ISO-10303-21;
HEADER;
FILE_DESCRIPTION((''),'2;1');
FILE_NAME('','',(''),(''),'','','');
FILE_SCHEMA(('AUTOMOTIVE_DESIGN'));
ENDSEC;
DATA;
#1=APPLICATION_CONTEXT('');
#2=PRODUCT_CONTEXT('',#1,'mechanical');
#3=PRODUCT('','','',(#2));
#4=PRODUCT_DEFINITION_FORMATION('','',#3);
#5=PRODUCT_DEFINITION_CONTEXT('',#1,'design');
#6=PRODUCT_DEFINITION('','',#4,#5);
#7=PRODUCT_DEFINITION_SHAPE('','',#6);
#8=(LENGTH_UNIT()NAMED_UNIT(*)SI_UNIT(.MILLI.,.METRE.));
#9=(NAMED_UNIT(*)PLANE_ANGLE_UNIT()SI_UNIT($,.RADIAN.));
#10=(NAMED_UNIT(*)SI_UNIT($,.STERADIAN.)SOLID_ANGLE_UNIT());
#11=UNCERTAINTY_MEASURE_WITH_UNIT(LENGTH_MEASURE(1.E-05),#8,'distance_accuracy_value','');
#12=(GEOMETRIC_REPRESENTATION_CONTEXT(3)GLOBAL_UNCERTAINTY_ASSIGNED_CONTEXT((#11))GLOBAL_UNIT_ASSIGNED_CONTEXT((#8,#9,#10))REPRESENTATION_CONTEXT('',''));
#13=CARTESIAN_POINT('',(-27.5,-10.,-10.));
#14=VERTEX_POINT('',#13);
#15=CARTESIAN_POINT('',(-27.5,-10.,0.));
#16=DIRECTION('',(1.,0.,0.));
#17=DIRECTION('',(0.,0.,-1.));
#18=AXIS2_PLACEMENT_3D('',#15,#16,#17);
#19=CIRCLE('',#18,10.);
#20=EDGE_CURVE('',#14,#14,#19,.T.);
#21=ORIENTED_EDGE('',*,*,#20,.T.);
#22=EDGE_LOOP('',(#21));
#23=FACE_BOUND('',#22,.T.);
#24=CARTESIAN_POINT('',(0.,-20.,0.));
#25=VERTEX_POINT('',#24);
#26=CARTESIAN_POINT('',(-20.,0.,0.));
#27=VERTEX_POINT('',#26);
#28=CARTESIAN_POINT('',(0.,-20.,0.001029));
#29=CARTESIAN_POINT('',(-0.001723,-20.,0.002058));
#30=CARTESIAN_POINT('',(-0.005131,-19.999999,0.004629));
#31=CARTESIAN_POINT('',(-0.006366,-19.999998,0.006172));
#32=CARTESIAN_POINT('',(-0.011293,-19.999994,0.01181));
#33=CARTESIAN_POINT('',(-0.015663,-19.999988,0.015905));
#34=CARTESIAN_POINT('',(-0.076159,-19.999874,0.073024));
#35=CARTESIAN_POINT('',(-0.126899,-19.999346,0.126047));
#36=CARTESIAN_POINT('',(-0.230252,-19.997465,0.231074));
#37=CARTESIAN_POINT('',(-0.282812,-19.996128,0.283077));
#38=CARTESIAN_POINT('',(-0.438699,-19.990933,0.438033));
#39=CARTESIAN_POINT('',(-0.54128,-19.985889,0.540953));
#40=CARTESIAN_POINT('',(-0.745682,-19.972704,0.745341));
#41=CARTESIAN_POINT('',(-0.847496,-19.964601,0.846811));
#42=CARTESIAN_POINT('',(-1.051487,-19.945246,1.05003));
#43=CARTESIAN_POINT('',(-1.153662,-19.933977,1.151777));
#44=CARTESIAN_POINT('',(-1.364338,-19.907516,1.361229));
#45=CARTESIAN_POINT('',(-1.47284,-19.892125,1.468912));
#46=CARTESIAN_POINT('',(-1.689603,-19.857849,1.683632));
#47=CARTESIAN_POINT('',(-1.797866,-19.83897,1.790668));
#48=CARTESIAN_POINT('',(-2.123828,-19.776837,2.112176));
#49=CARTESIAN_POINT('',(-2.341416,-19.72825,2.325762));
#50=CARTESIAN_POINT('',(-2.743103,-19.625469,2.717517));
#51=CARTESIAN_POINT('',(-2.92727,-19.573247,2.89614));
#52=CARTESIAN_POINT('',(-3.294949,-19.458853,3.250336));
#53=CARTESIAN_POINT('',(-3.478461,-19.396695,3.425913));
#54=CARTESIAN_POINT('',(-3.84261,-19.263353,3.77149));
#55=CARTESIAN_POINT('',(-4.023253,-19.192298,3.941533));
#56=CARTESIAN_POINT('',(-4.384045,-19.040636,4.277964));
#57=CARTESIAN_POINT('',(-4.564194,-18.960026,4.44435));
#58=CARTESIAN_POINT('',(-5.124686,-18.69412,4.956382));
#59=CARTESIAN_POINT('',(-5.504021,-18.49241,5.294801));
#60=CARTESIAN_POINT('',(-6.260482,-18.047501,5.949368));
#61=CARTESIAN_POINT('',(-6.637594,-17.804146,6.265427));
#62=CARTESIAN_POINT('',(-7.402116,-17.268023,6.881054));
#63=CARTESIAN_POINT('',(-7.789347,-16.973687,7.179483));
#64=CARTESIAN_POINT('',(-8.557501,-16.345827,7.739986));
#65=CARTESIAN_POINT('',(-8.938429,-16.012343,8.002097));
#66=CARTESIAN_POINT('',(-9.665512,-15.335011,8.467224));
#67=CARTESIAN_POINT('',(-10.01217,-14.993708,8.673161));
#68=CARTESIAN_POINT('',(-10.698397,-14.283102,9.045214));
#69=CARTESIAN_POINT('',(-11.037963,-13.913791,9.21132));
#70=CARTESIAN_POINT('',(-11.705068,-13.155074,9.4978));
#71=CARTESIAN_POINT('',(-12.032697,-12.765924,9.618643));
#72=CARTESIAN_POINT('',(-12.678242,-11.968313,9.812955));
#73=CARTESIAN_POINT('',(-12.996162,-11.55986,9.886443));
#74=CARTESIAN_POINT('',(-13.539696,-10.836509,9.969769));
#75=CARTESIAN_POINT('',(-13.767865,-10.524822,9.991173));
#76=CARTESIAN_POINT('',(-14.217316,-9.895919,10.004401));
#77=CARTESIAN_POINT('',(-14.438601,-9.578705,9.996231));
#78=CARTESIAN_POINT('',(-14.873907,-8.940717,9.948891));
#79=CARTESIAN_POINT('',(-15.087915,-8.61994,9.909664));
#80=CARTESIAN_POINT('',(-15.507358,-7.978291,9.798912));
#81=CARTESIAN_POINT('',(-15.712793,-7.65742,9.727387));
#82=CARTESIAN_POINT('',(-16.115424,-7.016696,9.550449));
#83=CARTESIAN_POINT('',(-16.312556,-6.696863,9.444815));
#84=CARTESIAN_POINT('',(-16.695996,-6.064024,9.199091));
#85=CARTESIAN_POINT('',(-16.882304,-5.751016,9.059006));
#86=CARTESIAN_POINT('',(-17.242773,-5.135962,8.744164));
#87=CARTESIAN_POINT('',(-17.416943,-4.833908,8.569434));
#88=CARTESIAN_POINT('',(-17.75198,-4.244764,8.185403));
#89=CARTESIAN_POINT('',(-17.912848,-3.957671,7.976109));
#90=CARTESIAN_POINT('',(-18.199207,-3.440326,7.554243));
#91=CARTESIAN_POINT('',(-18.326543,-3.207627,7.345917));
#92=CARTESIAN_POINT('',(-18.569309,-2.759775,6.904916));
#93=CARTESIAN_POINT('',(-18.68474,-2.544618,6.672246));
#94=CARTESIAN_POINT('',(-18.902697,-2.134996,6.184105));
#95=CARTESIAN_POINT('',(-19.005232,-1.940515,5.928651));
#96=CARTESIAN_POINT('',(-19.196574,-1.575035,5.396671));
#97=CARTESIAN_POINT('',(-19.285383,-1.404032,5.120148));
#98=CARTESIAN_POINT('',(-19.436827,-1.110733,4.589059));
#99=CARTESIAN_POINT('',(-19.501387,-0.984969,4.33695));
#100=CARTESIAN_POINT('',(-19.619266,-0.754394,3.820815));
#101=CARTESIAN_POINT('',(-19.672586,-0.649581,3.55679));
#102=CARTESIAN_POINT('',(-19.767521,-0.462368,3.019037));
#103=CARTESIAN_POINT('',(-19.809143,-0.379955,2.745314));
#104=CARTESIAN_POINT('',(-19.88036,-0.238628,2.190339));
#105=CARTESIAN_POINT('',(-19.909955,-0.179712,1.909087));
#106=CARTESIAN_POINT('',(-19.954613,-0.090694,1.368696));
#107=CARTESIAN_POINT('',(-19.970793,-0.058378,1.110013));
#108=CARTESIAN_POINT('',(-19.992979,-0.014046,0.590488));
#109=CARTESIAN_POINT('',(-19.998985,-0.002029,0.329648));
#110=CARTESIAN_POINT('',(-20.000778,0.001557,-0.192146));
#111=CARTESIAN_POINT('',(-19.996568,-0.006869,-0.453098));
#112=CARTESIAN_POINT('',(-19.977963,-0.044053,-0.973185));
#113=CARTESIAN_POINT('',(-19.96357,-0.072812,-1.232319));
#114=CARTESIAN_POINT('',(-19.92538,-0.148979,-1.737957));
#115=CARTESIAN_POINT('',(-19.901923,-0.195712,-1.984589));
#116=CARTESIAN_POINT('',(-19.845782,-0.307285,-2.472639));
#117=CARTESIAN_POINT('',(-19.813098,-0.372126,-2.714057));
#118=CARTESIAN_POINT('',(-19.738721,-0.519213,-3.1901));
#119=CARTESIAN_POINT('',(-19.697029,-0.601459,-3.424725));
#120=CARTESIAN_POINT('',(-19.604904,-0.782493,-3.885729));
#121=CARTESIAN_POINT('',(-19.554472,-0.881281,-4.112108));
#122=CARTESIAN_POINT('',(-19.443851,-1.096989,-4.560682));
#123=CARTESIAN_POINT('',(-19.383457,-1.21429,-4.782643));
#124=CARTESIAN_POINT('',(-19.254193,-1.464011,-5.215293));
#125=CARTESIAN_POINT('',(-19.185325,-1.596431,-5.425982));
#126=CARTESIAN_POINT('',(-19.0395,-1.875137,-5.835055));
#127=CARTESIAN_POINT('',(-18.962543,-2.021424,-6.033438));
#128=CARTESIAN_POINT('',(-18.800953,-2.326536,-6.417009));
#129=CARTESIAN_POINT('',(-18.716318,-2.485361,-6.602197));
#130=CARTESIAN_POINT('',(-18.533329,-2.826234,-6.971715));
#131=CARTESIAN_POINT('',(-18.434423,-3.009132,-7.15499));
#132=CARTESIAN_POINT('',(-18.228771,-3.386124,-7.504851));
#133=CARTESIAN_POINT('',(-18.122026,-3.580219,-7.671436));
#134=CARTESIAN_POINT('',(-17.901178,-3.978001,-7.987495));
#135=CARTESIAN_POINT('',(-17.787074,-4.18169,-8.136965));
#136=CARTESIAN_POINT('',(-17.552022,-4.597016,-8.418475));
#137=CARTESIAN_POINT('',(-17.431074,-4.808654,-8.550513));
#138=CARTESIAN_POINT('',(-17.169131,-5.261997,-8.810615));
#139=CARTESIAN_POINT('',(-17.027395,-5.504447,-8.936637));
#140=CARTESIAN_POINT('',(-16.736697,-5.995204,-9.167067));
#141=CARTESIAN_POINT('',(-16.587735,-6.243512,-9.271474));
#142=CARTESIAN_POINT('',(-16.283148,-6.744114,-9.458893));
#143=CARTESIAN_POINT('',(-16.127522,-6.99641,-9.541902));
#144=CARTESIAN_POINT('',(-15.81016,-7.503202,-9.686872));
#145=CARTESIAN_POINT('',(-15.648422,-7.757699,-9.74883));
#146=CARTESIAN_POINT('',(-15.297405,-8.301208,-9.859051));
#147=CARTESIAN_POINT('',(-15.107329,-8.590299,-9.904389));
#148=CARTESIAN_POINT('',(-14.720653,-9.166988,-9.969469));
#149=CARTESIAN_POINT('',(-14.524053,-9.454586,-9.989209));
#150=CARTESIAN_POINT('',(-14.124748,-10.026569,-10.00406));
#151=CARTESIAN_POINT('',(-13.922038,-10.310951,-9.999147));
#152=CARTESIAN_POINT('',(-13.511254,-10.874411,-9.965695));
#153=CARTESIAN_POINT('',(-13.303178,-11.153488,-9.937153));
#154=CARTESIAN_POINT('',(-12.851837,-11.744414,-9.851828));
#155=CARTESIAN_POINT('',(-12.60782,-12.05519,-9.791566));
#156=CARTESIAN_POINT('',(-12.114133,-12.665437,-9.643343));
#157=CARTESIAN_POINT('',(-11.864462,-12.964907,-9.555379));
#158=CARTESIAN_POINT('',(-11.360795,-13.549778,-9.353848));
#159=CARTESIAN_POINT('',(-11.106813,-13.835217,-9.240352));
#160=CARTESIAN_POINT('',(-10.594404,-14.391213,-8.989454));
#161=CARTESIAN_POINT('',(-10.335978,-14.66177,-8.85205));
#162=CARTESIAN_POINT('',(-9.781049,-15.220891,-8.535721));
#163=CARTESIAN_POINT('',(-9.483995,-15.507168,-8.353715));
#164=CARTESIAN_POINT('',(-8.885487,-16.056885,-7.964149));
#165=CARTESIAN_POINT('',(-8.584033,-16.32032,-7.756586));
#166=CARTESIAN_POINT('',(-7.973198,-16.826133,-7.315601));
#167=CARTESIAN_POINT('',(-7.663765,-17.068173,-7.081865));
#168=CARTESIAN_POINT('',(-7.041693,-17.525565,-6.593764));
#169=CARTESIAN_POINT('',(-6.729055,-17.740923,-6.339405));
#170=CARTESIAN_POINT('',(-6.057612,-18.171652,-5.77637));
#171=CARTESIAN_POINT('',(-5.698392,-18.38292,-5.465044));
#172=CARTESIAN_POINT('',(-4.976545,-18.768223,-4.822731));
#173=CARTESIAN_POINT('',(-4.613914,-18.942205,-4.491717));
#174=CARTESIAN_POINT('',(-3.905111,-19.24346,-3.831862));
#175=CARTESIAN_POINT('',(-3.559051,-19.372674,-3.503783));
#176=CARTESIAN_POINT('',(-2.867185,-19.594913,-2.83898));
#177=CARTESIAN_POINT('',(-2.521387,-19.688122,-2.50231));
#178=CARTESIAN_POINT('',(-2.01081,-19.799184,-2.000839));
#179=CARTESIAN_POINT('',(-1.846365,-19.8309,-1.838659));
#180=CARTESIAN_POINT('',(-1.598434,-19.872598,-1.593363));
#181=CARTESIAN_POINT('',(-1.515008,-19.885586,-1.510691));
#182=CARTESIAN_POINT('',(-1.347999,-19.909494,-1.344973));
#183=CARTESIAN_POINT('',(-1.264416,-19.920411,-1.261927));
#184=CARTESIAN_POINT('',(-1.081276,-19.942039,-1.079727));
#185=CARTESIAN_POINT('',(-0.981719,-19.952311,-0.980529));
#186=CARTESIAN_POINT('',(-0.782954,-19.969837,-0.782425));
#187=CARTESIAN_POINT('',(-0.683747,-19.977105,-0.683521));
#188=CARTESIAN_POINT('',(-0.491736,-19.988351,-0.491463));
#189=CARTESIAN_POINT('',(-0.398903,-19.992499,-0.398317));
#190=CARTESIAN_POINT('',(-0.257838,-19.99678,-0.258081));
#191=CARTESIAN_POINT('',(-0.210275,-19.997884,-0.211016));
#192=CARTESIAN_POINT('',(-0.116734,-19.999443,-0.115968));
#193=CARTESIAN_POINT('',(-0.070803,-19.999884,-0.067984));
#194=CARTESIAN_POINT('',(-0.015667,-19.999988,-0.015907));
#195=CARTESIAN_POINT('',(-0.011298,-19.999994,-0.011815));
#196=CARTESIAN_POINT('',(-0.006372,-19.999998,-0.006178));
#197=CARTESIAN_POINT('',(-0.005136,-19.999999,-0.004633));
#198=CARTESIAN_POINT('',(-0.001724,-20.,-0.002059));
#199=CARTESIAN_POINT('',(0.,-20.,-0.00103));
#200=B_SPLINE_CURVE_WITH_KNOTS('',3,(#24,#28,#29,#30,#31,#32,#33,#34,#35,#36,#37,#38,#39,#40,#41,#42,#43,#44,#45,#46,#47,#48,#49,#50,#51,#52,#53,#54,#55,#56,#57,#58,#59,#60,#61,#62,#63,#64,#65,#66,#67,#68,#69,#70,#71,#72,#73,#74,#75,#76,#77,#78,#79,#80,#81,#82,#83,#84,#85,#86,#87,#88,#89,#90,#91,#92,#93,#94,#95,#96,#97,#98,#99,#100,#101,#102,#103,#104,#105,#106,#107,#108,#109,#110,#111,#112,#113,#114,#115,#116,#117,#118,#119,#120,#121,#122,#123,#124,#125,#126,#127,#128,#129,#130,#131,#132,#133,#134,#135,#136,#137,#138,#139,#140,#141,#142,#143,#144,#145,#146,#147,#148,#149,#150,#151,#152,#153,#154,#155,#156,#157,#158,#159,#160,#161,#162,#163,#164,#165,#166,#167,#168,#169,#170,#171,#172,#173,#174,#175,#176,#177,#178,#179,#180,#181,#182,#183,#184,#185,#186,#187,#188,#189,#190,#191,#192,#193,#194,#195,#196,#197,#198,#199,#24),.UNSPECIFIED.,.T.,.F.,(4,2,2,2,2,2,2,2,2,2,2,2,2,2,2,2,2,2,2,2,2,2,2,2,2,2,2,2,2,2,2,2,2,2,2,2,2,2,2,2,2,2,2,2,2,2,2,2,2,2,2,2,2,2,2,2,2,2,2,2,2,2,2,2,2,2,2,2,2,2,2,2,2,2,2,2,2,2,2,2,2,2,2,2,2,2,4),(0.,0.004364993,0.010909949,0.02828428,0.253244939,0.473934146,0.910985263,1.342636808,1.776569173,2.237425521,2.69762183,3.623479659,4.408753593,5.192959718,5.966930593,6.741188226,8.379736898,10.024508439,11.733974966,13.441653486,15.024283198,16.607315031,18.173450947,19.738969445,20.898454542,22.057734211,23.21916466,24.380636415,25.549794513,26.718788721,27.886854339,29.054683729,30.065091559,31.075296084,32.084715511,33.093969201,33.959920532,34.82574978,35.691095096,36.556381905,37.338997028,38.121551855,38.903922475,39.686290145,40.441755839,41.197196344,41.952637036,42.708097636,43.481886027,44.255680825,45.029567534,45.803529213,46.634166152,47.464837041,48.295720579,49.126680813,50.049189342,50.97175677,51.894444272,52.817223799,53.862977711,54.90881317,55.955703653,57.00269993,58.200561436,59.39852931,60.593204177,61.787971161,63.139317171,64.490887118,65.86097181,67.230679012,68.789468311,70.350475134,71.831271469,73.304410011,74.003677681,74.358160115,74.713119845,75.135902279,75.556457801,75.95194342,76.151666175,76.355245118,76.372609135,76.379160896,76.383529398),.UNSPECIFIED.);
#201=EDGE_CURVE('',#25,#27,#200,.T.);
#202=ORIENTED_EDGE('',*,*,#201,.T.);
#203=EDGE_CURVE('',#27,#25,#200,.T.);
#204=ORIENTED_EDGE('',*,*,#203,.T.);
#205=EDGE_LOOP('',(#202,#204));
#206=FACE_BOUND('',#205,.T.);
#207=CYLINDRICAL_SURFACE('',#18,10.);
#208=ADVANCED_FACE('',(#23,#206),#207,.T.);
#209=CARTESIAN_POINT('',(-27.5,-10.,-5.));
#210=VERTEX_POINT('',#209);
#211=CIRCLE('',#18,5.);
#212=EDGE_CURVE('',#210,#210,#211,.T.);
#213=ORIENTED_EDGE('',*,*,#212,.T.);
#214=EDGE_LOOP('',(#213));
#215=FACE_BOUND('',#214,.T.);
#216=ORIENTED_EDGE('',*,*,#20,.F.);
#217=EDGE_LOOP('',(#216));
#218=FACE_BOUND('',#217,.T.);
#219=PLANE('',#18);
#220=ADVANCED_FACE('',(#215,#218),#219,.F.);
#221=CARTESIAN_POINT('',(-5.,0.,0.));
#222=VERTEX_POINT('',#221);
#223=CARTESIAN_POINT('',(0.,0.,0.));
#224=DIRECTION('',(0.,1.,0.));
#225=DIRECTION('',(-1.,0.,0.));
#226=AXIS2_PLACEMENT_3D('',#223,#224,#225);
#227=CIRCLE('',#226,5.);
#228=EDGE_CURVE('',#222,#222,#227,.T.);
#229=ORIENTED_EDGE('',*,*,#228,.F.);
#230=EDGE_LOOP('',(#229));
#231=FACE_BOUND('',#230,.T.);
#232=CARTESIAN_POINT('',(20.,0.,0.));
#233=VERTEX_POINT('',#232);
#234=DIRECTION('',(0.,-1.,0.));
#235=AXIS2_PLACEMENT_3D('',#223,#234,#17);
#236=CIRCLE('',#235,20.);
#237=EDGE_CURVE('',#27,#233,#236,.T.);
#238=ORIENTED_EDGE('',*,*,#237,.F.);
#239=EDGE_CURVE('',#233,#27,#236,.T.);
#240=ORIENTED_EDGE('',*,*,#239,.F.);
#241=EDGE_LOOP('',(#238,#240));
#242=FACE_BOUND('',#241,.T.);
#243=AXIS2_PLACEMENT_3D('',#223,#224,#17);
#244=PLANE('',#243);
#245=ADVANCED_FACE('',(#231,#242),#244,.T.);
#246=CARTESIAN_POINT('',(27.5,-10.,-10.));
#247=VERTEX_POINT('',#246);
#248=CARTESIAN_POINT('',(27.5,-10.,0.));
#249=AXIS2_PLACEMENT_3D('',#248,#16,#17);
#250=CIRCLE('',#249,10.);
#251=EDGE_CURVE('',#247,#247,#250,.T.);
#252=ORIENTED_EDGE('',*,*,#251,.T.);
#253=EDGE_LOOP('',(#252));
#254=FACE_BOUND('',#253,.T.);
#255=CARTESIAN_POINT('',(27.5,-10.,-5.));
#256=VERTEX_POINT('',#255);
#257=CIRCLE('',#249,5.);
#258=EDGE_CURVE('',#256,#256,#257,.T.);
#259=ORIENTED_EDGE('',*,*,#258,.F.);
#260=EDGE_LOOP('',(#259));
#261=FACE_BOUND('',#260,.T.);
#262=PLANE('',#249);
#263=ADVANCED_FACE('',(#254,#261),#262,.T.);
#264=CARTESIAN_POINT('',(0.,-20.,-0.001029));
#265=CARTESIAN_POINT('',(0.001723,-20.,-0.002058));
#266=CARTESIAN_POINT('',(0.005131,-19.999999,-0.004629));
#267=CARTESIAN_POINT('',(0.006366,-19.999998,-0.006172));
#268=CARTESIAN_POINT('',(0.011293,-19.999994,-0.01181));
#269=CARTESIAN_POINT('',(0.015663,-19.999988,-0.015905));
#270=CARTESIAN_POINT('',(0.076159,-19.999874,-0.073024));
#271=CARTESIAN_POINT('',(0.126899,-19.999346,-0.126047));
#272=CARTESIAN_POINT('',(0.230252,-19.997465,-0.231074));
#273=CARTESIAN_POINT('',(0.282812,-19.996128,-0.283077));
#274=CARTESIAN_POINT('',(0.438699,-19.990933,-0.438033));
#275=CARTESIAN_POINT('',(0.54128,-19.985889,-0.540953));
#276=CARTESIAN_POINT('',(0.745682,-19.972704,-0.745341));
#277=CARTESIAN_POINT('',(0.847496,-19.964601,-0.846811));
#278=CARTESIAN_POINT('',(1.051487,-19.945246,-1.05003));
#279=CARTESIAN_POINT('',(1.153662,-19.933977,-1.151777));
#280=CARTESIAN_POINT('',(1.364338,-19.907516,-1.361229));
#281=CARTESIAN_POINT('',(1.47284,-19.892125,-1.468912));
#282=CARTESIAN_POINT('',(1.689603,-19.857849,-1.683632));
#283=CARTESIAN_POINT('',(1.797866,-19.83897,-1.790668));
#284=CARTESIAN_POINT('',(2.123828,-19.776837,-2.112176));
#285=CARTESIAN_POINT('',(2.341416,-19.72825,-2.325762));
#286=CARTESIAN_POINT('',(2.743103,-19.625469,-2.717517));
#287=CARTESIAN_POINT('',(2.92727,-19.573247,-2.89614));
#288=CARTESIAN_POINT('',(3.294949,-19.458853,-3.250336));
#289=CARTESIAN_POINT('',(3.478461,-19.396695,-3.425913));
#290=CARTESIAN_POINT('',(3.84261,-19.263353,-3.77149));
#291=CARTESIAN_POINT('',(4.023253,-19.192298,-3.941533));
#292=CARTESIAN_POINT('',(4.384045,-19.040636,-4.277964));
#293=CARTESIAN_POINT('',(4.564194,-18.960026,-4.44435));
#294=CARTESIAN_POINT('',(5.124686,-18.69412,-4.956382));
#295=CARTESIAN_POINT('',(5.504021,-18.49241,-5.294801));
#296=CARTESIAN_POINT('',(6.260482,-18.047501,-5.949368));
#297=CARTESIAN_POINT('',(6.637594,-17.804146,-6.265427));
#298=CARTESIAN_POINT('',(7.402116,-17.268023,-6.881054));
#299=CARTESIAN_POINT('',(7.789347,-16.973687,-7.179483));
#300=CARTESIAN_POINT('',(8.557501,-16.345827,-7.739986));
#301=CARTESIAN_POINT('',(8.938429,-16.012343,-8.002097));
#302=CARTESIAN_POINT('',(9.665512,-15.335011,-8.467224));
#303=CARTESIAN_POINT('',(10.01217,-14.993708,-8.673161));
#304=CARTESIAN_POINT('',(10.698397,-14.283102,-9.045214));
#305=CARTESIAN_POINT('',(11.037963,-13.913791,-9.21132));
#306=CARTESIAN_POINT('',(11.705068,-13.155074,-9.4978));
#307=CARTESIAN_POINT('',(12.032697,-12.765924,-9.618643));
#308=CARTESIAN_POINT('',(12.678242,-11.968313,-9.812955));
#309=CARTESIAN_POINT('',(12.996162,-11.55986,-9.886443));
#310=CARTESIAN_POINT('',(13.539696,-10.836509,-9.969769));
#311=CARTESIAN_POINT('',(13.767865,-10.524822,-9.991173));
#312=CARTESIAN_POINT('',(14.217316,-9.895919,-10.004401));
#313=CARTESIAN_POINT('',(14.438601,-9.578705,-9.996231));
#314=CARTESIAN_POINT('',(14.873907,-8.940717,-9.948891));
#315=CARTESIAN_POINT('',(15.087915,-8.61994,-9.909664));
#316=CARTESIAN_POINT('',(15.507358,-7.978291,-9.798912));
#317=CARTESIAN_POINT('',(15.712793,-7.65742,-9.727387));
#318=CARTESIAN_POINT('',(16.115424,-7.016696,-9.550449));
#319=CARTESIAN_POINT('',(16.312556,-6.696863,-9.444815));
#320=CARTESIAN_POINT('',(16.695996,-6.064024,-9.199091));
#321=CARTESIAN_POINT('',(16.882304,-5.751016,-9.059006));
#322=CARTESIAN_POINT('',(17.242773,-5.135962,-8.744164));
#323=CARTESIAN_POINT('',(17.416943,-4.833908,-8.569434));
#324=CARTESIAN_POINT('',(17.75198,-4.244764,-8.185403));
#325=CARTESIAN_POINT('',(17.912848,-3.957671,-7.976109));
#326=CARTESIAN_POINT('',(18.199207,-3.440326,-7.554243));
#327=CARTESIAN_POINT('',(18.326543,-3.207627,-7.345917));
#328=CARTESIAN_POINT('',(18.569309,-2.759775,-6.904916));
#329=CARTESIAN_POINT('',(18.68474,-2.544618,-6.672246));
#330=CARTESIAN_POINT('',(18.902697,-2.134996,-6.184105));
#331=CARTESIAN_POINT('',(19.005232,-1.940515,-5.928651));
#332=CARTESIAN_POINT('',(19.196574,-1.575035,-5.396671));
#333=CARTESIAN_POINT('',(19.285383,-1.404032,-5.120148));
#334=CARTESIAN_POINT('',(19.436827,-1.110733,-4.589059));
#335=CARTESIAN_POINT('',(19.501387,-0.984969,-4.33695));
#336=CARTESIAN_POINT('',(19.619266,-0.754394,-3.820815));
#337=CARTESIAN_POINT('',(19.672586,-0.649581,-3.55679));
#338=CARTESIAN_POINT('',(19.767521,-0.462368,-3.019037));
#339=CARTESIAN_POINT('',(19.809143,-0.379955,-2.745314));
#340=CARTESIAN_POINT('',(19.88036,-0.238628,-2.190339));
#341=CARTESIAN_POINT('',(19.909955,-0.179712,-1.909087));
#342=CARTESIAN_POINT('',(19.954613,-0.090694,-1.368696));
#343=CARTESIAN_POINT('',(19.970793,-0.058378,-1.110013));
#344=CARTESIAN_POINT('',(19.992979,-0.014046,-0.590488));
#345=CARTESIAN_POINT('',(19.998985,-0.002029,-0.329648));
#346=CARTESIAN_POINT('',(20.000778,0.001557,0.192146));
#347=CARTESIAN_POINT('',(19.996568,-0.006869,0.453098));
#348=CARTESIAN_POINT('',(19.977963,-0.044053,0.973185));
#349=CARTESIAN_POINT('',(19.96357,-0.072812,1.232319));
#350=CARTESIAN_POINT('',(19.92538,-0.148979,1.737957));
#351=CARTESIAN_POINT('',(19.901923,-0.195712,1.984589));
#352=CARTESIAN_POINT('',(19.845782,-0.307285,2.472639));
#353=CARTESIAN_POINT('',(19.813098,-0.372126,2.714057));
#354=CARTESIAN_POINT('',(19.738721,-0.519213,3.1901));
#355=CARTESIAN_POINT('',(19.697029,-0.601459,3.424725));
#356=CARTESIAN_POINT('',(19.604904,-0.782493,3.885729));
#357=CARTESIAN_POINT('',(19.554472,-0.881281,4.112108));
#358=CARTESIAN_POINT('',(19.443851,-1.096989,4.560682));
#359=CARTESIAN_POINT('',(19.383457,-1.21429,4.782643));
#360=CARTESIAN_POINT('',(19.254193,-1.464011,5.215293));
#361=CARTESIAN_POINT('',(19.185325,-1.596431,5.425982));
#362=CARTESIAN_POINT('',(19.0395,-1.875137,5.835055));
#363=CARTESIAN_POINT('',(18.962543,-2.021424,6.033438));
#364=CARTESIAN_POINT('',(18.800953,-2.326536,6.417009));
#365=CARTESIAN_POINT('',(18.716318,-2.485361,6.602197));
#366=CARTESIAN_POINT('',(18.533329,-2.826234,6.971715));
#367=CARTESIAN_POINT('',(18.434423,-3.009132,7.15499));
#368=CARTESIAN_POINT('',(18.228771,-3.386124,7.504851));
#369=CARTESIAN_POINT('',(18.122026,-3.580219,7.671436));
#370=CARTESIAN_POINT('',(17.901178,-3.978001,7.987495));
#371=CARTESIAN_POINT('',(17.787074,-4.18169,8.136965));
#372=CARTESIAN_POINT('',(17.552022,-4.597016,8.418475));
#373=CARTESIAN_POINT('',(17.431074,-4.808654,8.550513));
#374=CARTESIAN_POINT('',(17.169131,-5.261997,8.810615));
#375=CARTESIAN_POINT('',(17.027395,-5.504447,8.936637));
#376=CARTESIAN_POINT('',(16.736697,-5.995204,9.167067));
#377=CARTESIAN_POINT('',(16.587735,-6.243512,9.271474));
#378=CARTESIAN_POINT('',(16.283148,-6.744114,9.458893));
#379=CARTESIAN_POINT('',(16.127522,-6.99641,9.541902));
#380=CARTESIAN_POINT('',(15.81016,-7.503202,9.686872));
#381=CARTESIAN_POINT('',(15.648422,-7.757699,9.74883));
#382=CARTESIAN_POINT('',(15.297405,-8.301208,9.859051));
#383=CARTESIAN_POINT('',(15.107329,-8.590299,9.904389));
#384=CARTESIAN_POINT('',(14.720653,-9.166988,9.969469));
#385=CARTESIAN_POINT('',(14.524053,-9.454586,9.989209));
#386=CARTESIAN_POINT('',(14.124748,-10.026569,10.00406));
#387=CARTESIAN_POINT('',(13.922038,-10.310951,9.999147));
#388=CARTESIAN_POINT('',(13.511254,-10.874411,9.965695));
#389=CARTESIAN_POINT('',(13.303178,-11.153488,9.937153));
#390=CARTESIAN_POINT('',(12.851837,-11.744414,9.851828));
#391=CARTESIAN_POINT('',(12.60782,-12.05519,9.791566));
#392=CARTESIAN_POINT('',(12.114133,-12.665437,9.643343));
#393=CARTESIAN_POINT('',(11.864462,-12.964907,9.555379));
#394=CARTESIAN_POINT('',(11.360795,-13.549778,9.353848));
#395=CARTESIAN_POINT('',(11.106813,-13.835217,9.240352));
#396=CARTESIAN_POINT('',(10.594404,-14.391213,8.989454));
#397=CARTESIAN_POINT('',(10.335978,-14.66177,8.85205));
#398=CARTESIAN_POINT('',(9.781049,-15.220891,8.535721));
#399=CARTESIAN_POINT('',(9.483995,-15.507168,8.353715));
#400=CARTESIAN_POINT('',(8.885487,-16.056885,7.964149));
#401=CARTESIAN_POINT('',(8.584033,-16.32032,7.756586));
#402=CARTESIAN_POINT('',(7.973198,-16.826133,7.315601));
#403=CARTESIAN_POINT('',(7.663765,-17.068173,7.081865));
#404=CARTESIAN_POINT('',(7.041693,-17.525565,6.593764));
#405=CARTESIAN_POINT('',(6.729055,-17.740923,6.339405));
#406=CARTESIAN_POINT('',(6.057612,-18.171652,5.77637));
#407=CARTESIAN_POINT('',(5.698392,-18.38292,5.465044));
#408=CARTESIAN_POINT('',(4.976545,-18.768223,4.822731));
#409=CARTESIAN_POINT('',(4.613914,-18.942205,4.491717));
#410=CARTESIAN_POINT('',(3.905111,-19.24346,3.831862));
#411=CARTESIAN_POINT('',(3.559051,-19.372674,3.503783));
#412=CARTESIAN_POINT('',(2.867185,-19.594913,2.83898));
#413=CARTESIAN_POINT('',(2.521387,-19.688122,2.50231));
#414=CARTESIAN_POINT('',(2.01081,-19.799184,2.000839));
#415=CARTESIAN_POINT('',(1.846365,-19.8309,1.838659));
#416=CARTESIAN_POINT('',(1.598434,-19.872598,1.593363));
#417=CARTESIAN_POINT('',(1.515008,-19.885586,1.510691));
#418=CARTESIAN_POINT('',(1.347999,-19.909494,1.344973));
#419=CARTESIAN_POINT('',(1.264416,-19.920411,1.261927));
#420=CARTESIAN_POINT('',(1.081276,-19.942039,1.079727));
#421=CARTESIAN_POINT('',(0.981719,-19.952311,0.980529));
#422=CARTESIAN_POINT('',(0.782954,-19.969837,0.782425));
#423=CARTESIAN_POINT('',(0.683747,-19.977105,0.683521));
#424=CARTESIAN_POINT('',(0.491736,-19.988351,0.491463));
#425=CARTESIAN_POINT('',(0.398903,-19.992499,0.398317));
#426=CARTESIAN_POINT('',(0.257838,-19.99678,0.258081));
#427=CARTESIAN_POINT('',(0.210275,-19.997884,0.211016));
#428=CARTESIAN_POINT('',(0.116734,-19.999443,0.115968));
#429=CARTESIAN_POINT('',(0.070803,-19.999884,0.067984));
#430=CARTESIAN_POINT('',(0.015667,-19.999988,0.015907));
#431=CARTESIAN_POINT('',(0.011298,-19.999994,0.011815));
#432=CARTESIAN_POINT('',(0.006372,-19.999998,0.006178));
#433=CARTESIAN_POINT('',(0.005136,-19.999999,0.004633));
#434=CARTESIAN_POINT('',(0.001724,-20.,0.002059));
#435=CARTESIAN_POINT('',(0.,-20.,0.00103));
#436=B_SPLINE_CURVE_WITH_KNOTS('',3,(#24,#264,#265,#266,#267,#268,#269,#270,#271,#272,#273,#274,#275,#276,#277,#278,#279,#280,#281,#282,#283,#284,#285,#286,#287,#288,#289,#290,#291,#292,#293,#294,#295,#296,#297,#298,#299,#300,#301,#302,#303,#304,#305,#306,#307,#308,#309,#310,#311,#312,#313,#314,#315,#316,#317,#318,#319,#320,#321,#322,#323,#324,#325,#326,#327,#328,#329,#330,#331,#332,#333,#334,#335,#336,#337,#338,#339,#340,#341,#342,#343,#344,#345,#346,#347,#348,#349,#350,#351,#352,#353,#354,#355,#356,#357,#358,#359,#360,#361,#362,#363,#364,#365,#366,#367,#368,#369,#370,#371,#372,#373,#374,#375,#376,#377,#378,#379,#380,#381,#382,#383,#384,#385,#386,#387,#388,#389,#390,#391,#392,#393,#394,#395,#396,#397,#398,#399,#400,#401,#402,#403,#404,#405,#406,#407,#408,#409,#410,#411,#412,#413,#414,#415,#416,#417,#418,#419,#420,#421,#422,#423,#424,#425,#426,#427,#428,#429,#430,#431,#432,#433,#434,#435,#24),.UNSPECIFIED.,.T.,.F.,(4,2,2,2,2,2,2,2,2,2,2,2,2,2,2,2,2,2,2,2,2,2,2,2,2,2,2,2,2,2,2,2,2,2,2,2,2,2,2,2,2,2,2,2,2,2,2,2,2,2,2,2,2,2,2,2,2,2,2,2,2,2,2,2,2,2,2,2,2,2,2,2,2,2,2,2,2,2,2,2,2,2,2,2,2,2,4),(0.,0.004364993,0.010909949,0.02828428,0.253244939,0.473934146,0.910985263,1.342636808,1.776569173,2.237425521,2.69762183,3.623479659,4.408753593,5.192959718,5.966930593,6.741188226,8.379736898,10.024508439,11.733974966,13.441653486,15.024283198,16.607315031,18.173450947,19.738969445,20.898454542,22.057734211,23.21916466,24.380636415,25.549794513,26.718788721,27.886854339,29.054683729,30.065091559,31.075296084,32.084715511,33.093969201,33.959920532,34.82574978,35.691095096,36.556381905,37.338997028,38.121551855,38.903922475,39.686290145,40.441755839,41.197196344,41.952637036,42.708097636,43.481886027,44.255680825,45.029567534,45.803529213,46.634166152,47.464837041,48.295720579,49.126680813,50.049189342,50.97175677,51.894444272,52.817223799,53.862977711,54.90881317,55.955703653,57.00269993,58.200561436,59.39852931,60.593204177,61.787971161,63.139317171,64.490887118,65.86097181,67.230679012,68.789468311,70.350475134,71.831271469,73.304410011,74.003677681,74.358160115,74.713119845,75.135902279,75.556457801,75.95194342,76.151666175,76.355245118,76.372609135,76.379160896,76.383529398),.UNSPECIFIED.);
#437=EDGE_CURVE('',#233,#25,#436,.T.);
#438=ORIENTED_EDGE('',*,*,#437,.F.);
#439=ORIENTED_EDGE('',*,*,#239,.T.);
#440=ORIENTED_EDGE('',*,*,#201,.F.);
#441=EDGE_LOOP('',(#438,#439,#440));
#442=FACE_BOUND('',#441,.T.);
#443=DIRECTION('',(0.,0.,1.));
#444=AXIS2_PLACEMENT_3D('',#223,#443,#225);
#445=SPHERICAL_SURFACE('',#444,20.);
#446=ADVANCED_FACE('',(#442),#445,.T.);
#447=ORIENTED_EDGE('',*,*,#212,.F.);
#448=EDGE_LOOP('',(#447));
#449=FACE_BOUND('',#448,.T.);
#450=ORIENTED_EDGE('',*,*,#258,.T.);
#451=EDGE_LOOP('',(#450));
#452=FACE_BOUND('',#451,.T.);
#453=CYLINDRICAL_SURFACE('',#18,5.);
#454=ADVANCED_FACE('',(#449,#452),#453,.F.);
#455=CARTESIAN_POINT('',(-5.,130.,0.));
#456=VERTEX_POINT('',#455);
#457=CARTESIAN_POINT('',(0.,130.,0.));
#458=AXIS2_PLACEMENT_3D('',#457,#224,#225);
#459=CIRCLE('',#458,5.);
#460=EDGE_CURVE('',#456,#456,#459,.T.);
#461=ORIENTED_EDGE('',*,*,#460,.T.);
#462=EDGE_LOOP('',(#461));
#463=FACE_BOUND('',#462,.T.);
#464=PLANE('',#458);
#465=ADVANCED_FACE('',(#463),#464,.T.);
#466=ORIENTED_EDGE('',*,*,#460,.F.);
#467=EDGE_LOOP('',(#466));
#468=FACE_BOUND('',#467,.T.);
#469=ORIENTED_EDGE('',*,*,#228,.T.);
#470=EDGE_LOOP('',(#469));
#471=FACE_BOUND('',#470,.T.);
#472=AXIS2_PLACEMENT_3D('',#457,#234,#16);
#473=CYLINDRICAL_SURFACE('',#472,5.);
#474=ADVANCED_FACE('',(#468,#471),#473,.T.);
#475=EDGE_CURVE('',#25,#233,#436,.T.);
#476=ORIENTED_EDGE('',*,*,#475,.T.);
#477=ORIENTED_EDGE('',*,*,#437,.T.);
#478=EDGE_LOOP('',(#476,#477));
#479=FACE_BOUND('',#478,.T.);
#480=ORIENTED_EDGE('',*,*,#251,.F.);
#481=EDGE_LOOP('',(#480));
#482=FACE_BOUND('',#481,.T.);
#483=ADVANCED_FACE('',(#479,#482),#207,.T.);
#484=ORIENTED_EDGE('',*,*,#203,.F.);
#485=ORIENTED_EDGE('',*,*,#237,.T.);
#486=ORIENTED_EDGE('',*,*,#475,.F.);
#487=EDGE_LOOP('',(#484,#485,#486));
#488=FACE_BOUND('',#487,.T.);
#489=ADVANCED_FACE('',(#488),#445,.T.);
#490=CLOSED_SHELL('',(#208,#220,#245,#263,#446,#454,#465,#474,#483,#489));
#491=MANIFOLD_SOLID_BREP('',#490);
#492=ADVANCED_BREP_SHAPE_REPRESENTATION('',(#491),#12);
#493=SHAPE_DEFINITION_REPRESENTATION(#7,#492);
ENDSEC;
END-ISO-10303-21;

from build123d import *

# Parameters (mm, degrees)
OBR_T1_ANGLE                     = 180
DODANIE_WYCI_GNI_CIE1_DEPTH      = 27.5
DODANIE_WYCI_GNI_CIE1_DEPTH_BACK = 27.5
SZKIC4_R                         = 10
SZKIC5_R                         = 5
WYTNIJ_WYCI_GNI_CIE1_DEPTH       = 62.846584506
SZKIC6_R                         = 5
DODANIE_WYCI_GNI_CIE2_DEPTH      = 130


with BuildPart() as part:
    # Szkic3 → Obrót1 (revolve)
    with BuildSketch(Plane(origin=(0, 0, 0), x_dir=(1, 0, 0), z_dir=(0, 1, 0))):
        with BuildLine():
            Line((0, 20), (0, -20))
            ThreePointArc((0, -20), (20, 0), (0, 20))
        make_face()
    revolve(axis=Axis((0, 0, -20), (0, 0, -1)), revolution_arc=OBR_T1_ANGLE)

    # Szkic4 → Dodanie-wyciągnięcie1 (add, two sides: drawn at the far end of the back side and taken through both)
    with BuildSketch(Plane(origin=(0, 0, 0), x_dir=(0, 0, -1), z_dir=(1, 0, 0)).offset(-DODANIE_WYCI_GNI_CIE1_DEPTH_BACK)):
        with Locations((0, -10)):
            Circle(SZKIC4_R)
    extrude(amount=DODANIE_WYCI_GNI_CIE1_DEPTH + DODANIE_WYCI_GNI_CIE1_DEPTH_BACK)

    # Szkic5 → Wytnij-wyciągnięcie1 (cut, through all)
    with BuildSketch(Plane(origin=(27.5, 0, 0), x_dir=(0, 0, -1), z_dir=(1, 0, 0))):
        with Locations((0, -10)):
            Circle(SZKIC5_R)
    extrude(amount=-WYTNIJ_WYCI_GNI_CIE1_DEPTH, mode=Mode.SUBTRACT)

    # Szkic6 → Dodanie-wyciągnięcie2 (add)
    with BuildSketch(Plane(origin=(0, 0, 0), x_dir=(1, 0, 0), z_dir=(0, 1, 0))):
        Circle(SZKIC6_R)
    extrude(amount=DODANIE_WYCI_GNI_CIE2_DEPTH)


solid = part.part
